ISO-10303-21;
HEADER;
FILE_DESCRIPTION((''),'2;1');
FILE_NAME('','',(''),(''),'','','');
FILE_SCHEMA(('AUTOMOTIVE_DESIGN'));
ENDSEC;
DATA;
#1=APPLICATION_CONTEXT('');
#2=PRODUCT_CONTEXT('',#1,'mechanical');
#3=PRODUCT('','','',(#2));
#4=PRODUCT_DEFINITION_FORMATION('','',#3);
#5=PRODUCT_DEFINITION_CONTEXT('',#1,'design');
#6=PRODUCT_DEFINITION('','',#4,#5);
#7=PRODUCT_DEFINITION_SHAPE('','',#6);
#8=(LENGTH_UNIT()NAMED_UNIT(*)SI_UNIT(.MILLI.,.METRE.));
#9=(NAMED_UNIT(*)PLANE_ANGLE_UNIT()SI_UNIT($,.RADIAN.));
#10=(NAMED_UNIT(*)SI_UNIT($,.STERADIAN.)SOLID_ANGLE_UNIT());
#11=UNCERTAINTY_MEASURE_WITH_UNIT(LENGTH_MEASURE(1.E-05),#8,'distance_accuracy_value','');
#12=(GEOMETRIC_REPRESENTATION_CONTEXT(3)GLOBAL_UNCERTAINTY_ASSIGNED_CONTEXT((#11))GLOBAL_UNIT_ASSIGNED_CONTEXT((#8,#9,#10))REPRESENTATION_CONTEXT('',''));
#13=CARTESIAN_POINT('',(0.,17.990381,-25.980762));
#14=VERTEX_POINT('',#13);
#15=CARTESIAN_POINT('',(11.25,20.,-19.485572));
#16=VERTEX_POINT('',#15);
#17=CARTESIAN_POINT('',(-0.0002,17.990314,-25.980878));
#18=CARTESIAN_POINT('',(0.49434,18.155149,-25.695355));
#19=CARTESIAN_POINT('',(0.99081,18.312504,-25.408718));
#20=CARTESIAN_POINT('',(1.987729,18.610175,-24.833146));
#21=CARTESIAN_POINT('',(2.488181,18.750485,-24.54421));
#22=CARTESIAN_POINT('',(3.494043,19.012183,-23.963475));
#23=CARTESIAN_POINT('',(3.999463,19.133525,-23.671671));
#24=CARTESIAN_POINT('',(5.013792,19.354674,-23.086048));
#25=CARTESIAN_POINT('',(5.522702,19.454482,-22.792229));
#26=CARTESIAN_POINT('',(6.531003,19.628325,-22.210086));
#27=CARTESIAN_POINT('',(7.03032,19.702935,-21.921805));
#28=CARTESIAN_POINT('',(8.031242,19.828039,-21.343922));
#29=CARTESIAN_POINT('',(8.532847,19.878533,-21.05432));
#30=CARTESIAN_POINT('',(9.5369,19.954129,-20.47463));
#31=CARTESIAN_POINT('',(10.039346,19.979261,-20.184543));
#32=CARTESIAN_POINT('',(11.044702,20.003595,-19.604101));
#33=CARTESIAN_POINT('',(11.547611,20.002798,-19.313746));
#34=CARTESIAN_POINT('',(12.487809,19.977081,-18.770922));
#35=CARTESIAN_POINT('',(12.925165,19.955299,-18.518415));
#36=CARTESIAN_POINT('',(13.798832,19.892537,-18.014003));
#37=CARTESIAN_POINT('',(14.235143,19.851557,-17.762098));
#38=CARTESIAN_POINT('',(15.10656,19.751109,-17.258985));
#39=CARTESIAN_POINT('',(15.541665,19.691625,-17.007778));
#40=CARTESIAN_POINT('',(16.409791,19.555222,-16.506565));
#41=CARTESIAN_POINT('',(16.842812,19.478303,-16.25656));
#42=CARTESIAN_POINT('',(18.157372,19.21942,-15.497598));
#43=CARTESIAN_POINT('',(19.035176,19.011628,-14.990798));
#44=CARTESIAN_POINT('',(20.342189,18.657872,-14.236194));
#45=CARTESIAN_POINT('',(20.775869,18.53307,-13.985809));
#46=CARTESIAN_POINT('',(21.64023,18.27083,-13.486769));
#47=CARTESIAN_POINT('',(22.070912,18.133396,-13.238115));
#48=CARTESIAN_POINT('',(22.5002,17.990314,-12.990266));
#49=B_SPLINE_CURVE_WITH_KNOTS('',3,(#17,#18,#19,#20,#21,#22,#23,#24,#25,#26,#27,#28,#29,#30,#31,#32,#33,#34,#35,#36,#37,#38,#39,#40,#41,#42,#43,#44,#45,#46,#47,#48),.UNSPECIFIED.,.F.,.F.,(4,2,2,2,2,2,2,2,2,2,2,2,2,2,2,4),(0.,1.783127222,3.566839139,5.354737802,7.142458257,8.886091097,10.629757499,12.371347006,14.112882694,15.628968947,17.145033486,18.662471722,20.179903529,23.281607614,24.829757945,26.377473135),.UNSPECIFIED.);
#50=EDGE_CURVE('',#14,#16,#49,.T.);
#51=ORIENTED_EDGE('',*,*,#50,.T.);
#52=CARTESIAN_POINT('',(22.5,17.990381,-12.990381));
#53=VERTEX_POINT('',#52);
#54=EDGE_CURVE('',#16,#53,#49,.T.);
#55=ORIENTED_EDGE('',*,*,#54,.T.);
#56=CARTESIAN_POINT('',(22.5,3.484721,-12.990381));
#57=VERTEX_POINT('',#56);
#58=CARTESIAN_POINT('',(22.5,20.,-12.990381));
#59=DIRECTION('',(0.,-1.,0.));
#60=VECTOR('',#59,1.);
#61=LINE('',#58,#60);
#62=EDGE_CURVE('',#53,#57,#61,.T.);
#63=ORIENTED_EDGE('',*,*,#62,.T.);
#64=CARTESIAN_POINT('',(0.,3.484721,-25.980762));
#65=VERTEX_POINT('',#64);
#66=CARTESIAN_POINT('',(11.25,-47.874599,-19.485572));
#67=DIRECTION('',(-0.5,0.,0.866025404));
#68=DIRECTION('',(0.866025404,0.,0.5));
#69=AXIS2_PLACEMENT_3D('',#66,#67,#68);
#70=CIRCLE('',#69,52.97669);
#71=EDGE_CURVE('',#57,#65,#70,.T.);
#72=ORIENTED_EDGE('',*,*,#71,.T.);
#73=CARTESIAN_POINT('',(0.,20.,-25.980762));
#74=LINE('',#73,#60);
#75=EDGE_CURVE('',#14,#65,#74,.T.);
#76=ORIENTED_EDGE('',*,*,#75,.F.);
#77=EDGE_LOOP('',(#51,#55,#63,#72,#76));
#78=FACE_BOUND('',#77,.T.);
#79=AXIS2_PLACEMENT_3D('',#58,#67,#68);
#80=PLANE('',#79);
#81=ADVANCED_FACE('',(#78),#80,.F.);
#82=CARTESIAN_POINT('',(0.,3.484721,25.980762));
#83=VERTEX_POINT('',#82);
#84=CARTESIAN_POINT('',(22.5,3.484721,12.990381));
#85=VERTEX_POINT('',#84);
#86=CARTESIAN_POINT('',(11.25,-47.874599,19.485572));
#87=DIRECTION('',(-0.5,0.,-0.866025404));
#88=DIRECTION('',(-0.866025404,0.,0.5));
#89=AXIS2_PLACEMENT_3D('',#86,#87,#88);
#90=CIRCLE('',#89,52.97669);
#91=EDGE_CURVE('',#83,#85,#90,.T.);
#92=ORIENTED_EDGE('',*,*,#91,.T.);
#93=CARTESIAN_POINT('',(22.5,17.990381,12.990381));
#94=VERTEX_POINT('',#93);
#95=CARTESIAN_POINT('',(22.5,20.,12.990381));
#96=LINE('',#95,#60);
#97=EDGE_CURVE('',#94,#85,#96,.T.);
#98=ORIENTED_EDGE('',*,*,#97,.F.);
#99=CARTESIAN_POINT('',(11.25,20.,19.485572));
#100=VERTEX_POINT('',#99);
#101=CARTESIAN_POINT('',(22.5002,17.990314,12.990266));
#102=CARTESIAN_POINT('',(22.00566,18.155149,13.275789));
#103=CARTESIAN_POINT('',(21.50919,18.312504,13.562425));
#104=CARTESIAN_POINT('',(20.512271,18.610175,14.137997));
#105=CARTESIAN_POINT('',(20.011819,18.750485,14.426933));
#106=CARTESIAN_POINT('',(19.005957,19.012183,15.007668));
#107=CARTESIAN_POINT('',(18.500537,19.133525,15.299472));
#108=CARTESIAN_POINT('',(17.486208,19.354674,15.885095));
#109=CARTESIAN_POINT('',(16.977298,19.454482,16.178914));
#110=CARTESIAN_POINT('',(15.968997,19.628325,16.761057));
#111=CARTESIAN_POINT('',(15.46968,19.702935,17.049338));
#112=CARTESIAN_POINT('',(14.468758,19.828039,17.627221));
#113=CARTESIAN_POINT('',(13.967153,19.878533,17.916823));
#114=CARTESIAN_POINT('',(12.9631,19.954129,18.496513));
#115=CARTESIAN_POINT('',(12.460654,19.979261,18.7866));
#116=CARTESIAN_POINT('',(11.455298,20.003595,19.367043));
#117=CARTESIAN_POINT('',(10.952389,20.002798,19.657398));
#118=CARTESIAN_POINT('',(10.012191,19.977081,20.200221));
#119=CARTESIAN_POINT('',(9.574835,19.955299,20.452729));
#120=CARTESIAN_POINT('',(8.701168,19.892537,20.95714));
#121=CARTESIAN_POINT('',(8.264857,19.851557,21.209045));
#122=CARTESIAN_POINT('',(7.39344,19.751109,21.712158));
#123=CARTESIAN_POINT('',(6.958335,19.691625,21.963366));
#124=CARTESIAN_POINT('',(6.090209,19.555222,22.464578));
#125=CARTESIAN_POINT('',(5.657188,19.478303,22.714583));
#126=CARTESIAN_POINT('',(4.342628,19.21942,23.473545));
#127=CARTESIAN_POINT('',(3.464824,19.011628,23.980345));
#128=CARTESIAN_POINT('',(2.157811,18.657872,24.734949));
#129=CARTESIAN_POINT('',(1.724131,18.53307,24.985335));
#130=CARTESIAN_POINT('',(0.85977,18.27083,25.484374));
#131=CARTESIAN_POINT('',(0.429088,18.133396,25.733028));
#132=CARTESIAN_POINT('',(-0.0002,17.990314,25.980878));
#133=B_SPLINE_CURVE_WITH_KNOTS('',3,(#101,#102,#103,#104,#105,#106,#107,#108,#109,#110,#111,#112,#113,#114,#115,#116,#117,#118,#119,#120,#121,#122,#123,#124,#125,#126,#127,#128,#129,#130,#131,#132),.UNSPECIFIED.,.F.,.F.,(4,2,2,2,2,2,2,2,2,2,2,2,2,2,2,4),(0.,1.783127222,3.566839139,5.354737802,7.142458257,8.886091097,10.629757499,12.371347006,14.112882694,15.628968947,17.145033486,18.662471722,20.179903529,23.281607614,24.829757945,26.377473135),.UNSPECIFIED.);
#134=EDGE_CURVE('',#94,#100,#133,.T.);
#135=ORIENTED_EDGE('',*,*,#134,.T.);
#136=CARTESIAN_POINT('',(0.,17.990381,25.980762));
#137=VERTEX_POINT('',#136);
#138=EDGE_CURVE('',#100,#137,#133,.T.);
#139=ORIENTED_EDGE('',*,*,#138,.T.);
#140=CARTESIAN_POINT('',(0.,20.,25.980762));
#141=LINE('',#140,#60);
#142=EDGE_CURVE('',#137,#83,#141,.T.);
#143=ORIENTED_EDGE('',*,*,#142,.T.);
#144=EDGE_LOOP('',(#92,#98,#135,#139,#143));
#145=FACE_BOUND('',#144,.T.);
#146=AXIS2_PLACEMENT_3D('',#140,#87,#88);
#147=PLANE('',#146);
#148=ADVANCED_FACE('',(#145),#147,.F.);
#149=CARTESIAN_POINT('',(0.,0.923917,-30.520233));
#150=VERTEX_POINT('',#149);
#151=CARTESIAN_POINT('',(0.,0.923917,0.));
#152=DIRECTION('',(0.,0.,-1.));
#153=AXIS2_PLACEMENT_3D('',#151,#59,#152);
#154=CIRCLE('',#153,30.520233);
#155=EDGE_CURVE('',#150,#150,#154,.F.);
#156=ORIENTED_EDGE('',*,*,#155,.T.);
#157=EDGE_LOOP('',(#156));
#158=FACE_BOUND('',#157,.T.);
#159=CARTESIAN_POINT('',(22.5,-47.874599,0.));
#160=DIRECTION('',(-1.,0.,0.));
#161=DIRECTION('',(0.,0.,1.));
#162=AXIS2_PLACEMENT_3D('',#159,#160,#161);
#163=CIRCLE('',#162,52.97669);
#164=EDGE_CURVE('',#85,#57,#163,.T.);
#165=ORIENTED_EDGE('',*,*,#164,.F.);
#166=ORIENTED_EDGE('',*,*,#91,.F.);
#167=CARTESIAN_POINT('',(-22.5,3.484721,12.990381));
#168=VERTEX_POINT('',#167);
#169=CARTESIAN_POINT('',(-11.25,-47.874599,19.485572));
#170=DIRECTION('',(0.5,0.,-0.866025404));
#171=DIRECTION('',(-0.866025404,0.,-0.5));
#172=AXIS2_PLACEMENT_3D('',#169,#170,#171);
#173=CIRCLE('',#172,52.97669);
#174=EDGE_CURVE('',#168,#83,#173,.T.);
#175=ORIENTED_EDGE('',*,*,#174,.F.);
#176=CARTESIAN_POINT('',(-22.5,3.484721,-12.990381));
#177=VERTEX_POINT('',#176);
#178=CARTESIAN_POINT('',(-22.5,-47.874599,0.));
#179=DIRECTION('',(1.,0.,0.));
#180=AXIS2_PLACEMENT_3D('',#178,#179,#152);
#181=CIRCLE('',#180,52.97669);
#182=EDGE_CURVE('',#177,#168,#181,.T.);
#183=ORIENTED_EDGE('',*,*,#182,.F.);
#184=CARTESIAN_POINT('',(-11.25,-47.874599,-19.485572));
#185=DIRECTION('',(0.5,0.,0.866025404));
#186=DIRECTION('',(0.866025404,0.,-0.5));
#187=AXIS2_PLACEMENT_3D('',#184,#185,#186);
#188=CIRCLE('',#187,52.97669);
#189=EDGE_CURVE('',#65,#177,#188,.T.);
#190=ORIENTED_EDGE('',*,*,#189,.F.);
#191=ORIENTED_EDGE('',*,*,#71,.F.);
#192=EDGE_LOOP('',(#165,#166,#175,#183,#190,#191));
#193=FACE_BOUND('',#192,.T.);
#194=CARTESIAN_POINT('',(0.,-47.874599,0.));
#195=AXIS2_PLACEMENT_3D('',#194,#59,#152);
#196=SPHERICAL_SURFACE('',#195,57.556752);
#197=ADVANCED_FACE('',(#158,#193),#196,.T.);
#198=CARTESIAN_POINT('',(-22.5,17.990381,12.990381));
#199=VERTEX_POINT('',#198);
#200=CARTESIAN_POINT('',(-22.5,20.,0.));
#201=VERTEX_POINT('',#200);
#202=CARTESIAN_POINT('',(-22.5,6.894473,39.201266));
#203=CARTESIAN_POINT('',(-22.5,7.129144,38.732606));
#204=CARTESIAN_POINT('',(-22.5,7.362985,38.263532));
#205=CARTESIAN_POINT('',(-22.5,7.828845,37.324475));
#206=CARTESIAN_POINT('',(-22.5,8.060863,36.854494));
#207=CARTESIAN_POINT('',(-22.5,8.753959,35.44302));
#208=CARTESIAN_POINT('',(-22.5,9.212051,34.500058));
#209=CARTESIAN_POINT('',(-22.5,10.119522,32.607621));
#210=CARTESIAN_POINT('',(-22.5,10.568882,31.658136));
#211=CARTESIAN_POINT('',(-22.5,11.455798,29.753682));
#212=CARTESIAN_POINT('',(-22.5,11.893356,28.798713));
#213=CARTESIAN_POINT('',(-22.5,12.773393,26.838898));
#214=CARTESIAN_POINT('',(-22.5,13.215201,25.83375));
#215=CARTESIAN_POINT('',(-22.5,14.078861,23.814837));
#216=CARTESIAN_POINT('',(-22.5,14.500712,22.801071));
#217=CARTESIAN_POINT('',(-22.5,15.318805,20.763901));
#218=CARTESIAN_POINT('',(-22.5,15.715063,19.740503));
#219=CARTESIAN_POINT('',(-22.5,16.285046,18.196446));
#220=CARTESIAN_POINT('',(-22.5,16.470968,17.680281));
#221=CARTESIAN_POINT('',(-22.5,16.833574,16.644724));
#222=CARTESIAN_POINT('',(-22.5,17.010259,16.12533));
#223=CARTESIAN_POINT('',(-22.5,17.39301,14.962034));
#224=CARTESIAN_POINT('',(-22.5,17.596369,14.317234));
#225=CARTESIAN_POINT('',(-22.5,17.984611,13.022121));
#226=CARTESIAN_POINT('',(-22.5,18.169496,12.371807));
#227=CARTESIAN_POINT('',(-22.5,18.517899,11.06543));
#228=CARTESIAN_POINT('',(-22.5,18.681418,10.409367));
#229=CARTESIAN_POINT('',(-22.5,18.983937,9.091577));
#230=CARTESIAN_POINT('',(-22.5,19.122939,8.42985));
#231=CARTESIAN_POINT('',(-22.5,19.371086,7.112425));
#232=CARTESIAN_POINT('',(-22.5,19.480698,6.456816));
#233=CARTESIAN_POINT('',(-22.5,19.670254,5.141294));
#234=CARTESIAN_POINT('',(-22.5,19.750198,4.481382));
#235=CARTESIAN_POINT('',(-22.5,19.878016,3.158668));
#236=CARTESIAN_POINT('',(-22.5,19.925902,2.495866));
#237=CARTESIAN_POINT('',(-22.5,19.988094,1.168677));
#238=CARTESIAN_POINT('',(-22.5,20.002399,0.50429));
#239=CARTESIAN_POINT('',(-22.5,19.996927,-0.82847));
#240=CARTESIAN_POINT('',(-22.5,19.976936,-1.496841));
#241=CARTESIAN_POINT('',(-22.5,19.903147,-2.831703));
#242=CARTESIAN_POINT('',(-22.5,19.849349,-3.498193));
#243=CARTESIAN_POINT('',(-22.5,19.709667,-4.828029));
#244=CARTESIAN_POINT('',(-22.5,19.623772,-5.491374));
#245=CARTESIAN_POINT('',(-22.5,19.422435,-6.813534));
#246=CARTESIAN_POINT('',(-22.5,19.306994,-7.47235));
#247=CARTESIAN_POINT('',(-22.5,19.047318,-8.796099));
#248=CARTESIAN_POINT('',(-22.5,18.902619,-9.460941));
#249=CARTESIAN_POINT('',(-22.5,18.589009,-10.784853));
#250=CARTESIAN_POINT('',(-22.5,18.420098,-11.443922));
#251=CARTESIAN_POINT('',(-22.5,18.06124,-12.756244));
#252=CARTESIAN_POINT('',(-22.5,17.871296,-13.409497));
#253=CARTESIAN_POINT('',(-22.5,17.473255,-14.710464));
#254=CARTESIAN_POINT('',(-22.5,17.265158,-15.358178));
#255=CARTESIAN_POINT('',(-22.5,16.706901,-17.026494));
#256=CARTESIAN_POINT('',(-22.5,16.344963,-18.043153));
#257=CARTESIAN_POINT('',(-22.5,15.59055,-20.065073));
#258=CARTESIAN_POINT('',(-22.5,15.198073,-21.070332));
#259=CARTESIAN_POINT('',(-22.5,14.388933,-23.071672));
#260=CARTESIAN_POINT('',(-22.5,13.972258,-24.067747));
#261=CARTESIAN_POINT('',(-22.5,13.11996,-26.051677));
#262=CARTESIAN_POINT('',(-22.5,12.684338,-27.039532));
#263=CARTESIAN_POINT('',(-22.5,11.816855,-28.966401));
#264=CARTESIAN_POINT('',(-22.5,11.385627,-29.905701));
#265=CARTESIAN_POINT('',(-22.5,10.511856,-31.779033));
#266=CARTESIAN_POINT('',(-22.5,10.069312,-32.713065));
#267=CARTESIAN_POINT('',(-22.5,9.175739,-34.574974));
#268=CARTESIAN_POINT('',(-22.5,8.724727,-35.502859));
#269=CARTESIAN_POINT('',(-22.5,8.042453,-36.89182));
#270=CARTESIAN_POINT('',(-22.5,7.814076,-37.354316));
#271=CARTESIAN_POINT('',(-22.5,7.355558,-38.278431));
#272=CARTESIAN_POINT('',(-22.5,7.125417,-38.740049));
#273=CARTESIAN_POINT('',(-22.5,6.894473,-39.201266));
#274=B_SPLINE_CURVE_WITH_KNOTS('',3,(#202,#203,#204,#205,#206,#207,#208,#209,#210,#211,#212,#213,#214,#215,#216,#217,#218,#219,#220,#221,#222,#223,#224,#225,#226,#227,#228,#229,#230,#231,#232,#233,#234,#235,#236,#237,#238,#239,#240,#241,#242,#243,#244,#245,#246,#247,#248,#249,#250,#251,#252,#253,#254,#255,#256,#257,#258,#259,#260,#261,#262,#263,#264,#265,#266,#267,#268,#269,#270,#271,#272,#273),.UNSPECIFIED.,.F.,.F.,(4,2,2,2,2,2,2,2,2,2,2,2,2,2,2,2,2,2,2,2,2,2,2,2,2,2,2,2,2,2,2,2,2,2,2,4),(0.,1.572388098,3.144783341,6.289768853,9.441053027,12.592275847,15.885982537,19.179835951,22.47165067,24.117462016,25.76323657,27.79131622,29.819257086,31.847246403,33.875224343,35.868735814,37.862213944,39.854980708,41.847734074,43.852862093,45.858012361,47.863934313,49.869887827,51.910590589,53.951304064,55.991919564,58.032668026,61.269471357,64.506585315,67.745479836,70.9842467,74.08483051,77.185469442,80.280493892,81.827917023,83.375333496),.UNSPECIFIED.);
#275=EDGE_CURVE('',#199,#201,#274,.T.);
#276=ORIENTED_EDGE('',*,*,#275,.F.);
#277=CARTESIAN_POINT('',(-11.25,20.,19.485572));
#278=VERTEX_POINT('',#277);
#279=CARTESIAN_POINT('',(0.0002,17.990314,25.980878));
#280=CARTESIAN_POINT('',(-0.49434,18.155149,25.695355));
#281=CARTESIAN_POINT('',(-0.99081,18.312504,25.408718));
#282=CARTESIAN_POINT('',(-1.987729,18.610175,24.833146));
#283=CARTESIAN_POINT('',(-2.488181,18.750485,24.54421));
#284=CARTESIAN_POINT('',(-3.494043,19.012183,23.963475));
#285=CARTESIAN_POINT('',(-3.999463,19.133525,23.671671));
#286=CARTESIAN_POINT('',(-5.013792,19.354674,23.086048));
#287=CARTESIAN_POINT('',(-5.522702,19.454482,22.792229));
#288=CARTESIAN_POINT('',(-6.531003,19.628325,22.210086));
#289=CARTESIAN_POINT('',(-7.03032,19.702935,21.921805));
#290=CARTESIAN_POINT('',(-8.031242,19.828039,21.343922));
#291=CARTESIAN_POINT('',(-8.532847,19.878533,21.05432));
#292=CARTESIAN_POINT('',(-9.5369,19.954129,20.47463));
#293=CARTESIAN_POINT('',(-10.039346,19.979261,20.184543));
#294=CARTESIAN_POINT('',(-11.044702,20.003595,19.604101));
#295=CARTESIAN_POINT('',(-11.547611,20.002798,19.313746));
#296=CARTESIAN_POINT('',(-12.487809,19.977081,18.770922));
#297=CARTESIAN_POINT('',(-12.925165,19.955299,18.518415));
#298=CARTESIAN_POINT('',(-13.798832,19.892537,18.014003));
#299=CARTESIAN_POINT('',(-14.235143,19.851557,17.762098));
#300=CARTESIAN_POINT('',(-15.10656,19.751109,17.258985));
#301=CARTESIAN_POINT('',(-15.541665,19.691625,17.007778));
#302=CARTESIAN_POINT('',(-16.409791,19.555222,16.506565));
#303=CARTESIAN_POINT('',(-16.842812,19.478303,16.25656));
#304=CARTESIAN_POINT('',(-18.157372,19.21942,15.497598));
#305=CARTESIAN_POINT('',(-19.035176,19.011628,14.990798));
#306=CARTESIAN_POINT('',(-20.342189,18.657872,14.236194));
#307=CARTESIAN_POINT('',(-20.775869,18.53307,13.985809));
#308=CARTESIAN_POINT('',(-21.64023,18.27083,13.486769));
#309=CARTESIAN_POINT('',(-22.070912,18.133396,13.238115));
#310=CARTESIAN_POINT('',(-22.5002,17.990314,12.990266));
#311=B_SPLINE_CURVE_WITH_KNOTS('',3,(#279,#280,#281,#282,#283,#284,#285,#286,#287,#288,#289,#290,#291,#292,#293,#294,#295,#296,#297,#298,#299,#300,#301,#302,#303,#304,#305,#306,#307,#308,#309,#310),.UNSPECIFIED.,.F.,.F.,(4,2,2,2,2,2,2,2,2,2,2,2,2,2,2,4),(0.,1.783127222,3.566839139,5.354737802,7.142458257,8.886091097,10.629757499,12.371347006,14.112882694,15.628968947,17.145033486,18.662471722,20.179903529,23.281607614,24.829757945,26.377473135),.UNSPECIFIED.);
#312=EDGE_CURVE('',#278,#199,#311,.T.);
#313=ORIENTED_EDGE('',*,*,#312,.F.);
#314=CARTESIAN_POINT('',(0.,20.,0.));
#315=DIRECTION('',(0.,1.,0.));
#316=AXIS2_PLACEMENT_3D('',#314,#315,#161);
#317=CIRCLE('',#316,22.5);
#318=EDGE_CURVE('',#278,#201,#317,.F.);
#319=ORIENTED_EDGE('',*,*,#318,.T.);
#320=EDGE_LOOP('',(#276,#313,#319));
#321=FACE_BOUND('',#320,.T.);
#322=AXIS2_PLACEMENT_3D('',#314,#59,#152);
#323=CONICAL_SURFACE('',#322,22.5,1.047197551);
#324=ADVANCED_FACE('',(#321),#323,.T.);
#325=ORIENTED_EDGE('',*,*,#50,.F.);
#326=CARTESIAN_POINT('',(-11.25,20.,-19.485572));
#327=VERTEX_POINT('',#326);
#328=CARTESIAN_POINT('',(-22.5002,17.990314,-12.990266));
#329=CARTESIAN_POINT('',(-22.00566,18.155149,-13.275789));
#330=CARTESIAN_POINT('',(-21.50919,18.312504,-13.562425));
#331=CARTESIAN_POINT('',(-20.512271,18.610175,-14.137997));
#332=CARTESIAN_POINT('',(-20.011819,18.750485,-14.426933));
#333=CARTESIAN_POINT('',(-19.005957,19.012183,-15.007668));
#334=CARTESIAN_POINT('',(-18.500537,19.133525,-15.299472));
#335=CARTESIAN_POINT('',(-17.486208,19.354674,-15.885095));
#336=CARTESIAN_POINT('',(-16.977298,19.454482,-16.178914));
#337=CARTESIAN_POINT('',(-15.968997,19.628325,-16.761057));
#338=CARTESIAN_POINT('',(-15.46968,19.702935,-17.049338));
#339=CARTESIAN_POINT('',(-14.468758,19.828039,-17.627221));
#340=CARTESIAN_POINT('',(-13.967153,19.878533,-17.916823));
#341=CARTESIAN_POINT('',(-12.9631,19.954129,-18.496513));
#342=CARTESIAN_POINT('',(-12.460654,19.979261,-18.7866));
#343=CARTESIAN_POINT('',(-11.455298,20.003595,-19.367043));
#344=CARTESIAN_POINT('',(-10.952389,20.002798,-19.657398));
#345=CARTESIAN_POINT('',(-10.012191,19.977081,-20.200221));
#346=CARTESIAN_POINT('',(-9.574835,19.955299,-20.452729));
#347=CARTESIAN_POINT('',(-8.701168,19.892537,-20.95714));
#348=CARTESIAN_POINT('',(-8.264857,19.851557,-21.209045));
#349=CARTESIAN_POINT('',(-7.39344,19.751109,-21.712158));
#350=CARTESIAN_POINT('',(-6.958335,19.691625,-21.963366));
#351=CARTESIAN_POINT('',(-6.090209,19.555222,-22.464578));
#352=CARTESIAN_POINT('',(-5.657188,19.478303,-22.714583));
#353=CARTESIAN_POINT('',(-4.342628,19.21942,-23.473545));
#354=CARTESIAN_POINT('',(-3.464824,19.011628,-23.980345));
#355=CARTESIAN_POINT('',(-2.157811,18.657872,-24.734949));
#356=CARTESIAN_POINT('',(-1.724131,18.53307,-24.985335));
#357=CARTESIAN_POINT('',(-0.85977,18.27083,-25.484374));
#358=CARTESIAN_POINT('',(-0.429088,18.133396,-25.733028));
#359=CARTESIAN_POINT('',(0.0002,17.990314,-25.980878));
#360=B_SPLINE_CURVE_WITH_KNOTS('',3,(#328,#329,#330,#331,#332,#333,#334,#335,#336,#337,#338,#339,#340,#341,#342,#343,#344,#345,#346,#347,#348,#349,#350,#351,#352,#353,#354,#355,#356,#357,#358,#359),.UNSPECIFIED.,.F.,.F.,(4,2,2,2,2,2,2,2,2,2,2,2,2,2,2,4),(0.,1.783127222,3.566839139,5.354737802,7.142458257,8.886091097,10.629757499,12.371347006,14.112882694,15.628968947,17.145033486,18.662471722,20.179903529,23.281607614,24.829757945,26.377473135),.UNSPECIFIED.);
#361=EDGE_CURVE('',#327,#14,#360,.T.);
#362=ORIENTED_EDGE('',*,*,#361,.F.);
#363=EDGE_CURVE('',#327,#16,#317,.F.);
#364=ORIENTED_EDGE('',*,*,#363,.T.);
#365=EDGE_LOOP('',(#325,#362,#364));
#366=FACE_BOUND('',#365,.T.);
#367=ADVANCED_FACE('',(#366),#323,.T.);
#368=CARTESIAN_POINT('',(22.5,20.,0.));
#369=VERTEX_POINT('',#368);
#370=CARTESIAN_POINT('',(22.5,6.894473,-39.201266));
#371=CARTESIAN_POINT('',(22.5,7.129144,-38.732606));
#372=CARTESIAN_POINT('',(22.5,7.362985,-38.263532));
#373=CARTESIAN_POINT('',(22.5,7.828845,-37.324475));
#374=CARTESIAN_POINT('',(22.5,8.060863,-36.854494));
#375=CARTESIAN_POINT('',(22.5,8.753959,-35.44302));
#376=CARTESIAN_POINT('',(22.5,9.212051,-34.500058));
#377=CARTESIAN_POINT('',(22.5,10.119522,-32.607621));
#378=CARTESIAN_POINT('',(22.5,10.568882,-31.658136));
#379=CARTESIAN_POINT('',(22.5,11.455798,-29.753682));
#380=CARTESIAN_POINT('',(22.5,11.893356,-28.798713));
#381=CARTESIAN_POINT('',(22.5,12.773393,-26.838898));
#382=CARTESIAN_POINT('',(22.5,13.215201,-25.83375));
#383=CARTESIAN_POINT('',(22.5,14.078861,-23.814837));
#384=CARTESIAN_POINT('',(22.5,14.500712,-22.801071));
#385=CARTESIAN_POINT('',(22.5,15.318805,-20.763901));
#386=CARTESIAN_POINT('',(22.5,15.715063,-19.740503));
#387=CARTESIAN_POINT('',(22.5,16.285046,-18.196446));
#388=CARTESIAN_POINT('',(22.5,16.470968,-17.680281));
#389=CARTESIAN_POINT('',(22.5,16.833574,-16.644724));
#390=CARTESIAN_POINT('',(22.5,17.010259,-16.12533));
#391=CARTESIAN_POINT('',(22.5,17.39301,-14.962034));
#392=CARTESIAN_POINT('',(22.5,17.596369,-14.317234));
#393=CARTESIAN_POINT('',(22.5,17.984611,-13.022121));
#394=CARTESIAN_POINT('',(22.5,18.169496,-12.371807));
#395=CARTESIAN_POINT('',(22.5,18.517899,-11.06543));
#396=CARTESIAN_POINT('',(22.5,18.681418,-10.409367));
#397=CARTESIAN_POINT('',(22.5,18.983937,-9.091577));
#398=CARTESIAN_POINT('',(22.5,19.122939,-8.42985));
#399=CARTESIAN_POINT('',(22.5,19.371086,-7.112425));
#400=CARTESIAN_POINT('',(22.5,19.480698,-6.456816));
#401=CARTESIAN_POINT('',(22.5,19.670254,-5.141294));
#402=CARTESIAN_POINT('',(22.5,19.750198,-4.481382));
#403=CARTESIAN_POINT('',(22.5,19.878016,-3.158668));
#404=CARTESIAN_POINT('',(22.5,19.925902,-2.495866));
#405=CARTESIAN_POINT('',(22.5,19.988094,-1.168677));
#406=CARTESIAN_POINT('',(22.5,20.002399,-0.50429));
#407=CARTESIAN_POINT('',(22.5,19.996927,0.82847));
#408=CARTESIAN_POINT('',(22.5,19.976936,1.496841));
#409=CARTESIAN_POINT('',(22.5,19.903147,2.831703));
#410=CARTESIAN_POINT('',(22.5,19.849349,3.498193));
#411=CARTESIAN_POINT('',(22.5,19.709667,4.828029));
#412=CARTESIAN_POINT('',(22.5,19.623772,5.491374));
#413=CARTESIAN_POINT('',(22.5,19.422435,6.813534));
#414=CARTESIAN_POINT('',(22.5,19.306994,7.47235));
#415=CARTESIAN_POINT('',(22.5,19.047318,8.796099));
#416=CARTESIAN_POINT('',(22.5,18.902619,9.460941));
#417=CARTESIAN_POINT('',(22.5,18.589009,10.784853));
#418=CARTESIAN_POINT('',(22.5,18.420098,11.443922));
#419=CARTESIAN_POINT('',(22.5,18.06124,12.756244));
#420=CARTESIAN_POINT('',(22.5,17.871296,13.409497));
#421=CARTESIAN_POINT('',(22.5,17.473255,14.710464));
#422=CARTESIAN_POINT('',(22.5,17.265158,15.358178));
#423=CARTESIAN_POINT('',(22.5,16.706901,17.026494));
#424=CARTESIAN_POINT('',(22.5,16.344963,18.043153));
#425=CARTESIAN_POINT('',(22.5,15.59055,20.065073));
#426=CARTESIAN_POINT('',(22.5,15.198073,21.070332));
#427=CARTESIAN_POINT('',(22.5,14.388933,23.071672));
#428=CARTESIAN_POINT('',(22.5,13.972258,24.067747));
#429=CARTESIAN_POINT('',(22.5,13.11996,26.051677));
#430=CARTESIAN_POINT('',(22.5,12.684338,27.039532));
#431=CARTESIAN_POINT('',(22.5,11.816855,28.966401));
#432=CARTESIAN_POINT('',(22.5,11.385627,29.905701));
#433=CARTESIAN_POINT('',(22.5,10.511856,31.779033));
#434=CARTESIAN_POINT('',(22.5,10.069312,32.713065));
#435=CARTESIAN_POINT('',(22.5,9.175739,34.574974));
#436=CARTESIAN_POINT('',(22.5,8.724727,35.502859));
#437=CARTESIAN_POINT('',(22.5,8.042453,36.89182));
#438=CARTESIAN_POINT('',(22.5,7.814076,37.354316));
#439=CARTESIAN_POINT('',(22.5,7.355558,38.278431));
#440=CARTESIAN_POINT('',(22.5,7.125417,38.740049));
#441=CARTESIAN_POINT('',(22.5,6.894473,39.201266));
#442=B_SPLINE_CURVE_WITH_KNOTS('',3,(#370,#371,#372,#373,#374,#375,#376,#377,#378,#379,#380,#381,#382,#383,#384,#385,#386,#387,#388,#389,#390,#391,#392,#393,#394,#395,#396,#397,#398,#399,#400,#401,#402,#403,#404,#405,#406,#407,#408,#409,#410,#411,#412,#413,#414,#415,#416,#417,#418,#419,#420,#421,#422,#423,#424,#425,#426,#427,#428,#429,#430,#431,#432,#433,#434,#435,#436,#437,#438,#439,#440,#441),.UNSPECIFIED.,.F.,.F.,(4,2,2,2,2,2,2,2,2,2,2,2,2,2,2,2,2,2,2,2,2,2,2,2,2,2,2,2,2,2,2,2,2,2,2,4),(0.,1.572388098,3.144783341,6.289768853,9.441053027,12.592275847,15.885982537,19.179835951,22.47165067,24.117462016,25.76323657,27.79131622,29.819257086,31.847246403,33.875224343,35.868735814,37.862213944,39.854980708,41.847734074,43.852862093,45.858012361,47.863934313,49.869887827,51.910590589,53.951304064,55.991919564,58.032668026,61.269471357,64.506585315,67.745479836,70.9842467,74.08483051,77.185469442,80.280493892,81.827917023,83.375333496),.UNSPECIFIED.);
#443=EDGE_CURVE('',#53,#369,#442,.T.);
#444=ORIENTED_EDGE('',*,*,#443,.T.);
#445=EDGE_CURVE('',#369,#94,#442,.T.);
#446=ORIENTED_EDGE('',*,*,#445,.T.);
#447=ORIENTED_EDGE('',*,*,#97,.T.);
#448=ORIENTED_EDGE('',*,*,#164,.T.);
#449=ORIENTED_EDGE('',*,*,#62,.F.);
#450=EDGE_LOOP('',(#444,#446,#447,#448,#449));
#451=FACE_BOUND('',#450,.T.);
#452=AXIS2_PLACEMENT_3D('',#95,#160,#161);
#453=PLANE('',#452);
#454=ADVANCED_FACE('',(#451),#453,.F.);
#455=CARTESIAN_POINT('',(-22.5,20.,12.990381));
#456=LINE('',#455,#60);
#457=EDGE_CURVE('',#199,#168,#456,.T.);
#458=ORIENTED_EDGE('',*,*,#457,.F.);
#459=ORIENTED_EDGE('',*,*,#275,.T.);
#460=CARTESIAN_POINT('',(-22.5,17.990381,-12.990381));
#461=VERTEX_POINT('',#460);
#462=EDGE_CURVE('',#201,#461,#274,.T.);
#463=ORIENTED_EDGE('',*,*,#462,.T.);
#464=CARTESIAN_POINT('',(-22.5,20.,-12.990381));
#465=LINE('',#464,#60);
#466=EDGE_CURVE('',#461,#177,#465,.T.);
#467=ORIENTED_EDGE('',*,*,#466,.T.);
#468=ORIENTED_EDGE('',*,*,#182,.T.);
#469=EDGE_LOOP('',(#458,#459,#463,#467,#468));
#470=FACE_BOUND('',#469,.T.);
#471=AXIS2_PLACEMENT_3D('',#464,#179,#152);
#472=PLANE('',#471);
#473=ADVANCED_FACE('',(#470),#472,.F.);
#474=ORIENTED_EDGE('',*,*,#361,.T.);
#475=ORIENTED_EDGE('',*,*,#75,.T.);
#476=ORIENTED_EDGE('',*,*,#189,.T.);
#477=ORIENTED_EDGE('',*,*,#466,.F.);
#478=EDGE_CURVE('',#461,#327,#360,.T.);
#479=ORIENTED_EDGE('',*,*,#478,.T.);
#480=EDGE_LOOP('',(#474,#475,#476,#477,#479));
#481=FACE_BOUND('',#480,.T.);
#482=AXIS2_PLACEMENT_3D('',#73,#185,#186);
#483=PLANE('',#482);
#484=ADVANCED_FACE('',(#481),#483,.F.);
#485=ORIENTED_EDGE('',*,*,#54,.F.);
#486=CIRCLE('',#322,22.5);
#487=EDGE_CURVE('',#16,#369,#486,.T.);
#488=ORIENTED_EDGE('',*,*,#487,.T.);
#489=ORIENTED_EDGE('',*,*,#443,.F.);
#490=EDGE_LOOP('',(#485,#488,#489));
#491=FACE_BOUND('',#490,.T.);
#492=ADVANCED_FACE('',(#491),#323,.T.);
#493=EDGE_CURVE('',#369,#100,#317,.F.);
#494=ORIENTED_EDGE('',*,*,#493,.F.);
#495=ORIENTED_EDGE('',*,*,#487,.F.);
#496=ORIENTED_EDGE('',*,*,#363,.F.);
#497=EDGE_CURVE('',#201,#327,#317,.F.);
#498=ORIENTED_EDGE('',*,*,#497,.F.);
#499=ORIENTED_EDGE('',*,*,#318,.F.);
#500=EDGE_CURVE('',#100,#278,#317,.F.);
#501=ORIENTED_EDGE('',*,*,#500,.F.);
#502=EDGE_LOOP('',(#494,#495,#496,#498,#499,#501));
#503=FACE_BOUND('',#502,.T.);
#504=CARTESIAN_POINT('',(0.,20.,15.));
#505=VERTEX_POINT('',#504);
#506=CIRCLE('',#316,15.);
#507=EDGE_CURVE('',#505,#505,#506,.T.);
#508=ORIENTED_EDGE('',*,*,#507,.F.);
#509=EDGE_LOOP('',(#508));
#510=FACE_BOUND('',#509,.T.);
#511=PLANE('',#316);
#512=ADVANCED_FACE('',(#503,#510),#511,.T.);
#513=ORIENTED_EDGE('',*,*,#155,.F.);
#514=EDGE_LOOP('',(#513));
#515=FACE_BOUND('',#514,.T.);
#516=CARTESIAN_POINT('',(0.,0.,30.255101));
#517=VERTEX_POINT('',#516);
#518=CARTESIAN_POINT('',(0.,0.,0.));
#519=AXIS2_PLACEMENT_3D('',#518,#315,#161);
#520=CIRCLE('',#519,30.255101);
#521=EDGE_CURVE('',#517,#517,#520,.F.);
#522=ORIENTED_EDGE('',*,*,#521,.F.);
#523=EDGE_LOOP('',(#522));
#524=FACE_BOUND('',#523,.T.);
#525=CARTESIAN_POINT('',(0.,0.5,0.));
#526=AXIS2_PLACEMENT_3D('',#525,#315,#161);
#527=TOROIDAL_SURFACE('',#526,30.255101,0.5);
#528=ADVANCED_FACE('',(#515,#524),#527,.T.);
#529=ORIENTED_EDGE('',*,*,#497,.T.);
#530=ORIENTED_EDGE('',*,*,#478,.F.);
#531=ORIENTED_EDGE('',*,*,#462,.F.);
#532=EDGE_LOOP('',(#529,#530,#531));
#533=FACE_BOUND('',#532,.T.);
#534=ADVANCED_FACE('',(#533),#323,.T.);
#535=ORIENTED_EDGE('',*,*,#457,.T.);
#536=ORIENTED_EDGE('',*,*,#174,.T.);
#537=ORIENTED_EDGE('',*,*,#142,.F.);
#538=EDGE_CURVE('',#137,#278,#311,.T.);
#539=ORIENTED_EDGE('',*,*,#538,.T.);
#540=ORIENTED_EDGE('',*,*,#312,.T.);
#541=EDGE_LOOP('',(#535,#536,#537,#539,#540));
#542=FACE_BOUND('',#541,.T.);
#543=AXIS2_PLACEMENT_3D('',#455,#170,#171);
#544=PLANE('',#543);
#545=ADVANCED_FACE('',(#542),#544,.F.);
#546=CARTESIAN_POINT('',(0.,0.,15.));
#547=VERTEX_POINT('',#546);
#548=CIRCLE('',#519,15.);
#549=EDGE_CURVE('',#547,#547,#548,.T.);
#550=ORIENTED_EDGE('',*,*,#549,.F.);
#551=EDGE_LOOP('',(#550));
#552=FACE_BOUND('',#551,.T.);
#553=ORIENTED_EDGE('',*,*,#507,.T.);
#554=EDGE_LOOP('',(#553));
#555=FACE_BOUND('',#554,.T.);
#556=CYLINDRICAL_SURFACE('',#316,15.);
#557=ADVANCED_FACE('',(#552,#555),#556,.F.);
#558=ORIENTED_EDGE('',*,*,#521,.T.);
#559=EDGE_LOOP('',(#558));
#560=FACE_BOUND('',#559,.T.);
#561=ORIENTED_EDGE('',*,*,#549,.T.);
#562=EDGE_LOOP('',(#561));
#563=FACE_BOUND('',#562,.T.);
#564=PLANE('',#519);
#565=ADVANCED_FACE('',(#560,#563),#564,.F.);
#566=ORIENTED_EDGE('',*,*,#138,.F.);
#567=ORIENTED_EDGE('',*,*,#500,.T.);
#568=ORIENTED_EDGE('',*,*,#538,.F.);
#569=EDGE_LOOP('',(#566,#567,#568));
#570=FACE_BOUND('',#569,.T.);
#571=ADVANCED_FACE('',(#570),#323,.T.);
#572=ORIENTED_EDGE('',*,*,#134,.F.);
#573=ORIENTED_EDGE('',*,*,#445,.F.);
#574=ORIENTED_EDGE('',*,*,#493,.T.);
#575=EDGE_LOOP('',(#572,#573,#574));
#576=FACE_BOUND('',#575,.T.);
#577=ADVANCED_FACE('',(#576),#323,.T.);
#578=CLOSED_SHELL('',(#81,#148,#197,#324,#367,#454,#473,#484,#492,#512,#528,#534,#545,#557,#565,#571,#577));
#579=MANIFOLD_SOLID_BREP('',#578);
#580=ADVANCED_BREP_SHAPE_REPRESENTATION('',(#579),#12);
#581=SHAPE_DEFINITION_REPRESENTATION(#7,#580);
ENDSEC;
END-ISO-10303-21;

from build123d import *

# Parameters (mm, degrees)
BOSS_EXTRUDE1_DEPTH       = 20
FILLET1_R                 = 0.5
F_1_5MM_DOWEL_HOLE1_D     = 30
F_1_5MM_DOWEL_HOLE1_DEPTH = 20


with BuildPart() as part:
    # Sketch1 → Boss-Extrude1 (new body)
    with BuildSketch(Plane(origin=(0, 0, 0), x_dir=(1, 0, 0), z_dir=(0, 1, 0))):
        Polygon((0, 25.980762114), (-22.5, 12.990381057), (-22.5, -12.990381057), (0, -25.980762114), (22.5, -12.990381057), (22.5, 12.990381057), align=None)
    extrude(amount=BOSS_EXTRUDE1_DEPTH)

    # Sketch3 → Revolve1 (revolve)
    with BuildSketch(Plane(origin=(0, 0, 0), x_dir=(0, 0, -1), z_dir=(1, 0, 0))):
        with BuildLine():
            Line((0, 9.682153322), (0, 0))
            Line((0, 0), (31.95, 0))
            ThreePointArc((31.95, 0), (16.692412894, 7.208457265), (0, 9.682153322))
        make_face()
    revolve(axis=Axis((0, 0, 0), (0, 1, 0)))

    # Fillet1
    fillet1_edges = [part.edges().sort_by_distance(p)[0] for p in [
        (0, 0, 31.95),
    ]]
    fillet(fillet1_edges, radius=FILLET1_R)

    # Ø1.5mm Dowel Hole1
    with Locations(Plane(origin=(0, 20, 0), x_dir=(1, 0, 0), z_dir=(0, 1, 0))):
        with Locations((0, 0)):
            Hole(F_1_5MM_DOWEL_HOLE1_D / 2, depth=F_1_5MM_DOWEL_HOLE1_DEPTH)

    # Sketch6 → Cut-Revolve1 (revolve, cut)
    with BuildSketch(Plane.XY):
        Polygon((22.5, 20), (28.5, 20), (28.5, 16.535898385), align=None)
    revolve(axis=Axis((0, 0, 0), (0, 1, 0)), mode=Mode.SUBTRACT)


solid = part.part
